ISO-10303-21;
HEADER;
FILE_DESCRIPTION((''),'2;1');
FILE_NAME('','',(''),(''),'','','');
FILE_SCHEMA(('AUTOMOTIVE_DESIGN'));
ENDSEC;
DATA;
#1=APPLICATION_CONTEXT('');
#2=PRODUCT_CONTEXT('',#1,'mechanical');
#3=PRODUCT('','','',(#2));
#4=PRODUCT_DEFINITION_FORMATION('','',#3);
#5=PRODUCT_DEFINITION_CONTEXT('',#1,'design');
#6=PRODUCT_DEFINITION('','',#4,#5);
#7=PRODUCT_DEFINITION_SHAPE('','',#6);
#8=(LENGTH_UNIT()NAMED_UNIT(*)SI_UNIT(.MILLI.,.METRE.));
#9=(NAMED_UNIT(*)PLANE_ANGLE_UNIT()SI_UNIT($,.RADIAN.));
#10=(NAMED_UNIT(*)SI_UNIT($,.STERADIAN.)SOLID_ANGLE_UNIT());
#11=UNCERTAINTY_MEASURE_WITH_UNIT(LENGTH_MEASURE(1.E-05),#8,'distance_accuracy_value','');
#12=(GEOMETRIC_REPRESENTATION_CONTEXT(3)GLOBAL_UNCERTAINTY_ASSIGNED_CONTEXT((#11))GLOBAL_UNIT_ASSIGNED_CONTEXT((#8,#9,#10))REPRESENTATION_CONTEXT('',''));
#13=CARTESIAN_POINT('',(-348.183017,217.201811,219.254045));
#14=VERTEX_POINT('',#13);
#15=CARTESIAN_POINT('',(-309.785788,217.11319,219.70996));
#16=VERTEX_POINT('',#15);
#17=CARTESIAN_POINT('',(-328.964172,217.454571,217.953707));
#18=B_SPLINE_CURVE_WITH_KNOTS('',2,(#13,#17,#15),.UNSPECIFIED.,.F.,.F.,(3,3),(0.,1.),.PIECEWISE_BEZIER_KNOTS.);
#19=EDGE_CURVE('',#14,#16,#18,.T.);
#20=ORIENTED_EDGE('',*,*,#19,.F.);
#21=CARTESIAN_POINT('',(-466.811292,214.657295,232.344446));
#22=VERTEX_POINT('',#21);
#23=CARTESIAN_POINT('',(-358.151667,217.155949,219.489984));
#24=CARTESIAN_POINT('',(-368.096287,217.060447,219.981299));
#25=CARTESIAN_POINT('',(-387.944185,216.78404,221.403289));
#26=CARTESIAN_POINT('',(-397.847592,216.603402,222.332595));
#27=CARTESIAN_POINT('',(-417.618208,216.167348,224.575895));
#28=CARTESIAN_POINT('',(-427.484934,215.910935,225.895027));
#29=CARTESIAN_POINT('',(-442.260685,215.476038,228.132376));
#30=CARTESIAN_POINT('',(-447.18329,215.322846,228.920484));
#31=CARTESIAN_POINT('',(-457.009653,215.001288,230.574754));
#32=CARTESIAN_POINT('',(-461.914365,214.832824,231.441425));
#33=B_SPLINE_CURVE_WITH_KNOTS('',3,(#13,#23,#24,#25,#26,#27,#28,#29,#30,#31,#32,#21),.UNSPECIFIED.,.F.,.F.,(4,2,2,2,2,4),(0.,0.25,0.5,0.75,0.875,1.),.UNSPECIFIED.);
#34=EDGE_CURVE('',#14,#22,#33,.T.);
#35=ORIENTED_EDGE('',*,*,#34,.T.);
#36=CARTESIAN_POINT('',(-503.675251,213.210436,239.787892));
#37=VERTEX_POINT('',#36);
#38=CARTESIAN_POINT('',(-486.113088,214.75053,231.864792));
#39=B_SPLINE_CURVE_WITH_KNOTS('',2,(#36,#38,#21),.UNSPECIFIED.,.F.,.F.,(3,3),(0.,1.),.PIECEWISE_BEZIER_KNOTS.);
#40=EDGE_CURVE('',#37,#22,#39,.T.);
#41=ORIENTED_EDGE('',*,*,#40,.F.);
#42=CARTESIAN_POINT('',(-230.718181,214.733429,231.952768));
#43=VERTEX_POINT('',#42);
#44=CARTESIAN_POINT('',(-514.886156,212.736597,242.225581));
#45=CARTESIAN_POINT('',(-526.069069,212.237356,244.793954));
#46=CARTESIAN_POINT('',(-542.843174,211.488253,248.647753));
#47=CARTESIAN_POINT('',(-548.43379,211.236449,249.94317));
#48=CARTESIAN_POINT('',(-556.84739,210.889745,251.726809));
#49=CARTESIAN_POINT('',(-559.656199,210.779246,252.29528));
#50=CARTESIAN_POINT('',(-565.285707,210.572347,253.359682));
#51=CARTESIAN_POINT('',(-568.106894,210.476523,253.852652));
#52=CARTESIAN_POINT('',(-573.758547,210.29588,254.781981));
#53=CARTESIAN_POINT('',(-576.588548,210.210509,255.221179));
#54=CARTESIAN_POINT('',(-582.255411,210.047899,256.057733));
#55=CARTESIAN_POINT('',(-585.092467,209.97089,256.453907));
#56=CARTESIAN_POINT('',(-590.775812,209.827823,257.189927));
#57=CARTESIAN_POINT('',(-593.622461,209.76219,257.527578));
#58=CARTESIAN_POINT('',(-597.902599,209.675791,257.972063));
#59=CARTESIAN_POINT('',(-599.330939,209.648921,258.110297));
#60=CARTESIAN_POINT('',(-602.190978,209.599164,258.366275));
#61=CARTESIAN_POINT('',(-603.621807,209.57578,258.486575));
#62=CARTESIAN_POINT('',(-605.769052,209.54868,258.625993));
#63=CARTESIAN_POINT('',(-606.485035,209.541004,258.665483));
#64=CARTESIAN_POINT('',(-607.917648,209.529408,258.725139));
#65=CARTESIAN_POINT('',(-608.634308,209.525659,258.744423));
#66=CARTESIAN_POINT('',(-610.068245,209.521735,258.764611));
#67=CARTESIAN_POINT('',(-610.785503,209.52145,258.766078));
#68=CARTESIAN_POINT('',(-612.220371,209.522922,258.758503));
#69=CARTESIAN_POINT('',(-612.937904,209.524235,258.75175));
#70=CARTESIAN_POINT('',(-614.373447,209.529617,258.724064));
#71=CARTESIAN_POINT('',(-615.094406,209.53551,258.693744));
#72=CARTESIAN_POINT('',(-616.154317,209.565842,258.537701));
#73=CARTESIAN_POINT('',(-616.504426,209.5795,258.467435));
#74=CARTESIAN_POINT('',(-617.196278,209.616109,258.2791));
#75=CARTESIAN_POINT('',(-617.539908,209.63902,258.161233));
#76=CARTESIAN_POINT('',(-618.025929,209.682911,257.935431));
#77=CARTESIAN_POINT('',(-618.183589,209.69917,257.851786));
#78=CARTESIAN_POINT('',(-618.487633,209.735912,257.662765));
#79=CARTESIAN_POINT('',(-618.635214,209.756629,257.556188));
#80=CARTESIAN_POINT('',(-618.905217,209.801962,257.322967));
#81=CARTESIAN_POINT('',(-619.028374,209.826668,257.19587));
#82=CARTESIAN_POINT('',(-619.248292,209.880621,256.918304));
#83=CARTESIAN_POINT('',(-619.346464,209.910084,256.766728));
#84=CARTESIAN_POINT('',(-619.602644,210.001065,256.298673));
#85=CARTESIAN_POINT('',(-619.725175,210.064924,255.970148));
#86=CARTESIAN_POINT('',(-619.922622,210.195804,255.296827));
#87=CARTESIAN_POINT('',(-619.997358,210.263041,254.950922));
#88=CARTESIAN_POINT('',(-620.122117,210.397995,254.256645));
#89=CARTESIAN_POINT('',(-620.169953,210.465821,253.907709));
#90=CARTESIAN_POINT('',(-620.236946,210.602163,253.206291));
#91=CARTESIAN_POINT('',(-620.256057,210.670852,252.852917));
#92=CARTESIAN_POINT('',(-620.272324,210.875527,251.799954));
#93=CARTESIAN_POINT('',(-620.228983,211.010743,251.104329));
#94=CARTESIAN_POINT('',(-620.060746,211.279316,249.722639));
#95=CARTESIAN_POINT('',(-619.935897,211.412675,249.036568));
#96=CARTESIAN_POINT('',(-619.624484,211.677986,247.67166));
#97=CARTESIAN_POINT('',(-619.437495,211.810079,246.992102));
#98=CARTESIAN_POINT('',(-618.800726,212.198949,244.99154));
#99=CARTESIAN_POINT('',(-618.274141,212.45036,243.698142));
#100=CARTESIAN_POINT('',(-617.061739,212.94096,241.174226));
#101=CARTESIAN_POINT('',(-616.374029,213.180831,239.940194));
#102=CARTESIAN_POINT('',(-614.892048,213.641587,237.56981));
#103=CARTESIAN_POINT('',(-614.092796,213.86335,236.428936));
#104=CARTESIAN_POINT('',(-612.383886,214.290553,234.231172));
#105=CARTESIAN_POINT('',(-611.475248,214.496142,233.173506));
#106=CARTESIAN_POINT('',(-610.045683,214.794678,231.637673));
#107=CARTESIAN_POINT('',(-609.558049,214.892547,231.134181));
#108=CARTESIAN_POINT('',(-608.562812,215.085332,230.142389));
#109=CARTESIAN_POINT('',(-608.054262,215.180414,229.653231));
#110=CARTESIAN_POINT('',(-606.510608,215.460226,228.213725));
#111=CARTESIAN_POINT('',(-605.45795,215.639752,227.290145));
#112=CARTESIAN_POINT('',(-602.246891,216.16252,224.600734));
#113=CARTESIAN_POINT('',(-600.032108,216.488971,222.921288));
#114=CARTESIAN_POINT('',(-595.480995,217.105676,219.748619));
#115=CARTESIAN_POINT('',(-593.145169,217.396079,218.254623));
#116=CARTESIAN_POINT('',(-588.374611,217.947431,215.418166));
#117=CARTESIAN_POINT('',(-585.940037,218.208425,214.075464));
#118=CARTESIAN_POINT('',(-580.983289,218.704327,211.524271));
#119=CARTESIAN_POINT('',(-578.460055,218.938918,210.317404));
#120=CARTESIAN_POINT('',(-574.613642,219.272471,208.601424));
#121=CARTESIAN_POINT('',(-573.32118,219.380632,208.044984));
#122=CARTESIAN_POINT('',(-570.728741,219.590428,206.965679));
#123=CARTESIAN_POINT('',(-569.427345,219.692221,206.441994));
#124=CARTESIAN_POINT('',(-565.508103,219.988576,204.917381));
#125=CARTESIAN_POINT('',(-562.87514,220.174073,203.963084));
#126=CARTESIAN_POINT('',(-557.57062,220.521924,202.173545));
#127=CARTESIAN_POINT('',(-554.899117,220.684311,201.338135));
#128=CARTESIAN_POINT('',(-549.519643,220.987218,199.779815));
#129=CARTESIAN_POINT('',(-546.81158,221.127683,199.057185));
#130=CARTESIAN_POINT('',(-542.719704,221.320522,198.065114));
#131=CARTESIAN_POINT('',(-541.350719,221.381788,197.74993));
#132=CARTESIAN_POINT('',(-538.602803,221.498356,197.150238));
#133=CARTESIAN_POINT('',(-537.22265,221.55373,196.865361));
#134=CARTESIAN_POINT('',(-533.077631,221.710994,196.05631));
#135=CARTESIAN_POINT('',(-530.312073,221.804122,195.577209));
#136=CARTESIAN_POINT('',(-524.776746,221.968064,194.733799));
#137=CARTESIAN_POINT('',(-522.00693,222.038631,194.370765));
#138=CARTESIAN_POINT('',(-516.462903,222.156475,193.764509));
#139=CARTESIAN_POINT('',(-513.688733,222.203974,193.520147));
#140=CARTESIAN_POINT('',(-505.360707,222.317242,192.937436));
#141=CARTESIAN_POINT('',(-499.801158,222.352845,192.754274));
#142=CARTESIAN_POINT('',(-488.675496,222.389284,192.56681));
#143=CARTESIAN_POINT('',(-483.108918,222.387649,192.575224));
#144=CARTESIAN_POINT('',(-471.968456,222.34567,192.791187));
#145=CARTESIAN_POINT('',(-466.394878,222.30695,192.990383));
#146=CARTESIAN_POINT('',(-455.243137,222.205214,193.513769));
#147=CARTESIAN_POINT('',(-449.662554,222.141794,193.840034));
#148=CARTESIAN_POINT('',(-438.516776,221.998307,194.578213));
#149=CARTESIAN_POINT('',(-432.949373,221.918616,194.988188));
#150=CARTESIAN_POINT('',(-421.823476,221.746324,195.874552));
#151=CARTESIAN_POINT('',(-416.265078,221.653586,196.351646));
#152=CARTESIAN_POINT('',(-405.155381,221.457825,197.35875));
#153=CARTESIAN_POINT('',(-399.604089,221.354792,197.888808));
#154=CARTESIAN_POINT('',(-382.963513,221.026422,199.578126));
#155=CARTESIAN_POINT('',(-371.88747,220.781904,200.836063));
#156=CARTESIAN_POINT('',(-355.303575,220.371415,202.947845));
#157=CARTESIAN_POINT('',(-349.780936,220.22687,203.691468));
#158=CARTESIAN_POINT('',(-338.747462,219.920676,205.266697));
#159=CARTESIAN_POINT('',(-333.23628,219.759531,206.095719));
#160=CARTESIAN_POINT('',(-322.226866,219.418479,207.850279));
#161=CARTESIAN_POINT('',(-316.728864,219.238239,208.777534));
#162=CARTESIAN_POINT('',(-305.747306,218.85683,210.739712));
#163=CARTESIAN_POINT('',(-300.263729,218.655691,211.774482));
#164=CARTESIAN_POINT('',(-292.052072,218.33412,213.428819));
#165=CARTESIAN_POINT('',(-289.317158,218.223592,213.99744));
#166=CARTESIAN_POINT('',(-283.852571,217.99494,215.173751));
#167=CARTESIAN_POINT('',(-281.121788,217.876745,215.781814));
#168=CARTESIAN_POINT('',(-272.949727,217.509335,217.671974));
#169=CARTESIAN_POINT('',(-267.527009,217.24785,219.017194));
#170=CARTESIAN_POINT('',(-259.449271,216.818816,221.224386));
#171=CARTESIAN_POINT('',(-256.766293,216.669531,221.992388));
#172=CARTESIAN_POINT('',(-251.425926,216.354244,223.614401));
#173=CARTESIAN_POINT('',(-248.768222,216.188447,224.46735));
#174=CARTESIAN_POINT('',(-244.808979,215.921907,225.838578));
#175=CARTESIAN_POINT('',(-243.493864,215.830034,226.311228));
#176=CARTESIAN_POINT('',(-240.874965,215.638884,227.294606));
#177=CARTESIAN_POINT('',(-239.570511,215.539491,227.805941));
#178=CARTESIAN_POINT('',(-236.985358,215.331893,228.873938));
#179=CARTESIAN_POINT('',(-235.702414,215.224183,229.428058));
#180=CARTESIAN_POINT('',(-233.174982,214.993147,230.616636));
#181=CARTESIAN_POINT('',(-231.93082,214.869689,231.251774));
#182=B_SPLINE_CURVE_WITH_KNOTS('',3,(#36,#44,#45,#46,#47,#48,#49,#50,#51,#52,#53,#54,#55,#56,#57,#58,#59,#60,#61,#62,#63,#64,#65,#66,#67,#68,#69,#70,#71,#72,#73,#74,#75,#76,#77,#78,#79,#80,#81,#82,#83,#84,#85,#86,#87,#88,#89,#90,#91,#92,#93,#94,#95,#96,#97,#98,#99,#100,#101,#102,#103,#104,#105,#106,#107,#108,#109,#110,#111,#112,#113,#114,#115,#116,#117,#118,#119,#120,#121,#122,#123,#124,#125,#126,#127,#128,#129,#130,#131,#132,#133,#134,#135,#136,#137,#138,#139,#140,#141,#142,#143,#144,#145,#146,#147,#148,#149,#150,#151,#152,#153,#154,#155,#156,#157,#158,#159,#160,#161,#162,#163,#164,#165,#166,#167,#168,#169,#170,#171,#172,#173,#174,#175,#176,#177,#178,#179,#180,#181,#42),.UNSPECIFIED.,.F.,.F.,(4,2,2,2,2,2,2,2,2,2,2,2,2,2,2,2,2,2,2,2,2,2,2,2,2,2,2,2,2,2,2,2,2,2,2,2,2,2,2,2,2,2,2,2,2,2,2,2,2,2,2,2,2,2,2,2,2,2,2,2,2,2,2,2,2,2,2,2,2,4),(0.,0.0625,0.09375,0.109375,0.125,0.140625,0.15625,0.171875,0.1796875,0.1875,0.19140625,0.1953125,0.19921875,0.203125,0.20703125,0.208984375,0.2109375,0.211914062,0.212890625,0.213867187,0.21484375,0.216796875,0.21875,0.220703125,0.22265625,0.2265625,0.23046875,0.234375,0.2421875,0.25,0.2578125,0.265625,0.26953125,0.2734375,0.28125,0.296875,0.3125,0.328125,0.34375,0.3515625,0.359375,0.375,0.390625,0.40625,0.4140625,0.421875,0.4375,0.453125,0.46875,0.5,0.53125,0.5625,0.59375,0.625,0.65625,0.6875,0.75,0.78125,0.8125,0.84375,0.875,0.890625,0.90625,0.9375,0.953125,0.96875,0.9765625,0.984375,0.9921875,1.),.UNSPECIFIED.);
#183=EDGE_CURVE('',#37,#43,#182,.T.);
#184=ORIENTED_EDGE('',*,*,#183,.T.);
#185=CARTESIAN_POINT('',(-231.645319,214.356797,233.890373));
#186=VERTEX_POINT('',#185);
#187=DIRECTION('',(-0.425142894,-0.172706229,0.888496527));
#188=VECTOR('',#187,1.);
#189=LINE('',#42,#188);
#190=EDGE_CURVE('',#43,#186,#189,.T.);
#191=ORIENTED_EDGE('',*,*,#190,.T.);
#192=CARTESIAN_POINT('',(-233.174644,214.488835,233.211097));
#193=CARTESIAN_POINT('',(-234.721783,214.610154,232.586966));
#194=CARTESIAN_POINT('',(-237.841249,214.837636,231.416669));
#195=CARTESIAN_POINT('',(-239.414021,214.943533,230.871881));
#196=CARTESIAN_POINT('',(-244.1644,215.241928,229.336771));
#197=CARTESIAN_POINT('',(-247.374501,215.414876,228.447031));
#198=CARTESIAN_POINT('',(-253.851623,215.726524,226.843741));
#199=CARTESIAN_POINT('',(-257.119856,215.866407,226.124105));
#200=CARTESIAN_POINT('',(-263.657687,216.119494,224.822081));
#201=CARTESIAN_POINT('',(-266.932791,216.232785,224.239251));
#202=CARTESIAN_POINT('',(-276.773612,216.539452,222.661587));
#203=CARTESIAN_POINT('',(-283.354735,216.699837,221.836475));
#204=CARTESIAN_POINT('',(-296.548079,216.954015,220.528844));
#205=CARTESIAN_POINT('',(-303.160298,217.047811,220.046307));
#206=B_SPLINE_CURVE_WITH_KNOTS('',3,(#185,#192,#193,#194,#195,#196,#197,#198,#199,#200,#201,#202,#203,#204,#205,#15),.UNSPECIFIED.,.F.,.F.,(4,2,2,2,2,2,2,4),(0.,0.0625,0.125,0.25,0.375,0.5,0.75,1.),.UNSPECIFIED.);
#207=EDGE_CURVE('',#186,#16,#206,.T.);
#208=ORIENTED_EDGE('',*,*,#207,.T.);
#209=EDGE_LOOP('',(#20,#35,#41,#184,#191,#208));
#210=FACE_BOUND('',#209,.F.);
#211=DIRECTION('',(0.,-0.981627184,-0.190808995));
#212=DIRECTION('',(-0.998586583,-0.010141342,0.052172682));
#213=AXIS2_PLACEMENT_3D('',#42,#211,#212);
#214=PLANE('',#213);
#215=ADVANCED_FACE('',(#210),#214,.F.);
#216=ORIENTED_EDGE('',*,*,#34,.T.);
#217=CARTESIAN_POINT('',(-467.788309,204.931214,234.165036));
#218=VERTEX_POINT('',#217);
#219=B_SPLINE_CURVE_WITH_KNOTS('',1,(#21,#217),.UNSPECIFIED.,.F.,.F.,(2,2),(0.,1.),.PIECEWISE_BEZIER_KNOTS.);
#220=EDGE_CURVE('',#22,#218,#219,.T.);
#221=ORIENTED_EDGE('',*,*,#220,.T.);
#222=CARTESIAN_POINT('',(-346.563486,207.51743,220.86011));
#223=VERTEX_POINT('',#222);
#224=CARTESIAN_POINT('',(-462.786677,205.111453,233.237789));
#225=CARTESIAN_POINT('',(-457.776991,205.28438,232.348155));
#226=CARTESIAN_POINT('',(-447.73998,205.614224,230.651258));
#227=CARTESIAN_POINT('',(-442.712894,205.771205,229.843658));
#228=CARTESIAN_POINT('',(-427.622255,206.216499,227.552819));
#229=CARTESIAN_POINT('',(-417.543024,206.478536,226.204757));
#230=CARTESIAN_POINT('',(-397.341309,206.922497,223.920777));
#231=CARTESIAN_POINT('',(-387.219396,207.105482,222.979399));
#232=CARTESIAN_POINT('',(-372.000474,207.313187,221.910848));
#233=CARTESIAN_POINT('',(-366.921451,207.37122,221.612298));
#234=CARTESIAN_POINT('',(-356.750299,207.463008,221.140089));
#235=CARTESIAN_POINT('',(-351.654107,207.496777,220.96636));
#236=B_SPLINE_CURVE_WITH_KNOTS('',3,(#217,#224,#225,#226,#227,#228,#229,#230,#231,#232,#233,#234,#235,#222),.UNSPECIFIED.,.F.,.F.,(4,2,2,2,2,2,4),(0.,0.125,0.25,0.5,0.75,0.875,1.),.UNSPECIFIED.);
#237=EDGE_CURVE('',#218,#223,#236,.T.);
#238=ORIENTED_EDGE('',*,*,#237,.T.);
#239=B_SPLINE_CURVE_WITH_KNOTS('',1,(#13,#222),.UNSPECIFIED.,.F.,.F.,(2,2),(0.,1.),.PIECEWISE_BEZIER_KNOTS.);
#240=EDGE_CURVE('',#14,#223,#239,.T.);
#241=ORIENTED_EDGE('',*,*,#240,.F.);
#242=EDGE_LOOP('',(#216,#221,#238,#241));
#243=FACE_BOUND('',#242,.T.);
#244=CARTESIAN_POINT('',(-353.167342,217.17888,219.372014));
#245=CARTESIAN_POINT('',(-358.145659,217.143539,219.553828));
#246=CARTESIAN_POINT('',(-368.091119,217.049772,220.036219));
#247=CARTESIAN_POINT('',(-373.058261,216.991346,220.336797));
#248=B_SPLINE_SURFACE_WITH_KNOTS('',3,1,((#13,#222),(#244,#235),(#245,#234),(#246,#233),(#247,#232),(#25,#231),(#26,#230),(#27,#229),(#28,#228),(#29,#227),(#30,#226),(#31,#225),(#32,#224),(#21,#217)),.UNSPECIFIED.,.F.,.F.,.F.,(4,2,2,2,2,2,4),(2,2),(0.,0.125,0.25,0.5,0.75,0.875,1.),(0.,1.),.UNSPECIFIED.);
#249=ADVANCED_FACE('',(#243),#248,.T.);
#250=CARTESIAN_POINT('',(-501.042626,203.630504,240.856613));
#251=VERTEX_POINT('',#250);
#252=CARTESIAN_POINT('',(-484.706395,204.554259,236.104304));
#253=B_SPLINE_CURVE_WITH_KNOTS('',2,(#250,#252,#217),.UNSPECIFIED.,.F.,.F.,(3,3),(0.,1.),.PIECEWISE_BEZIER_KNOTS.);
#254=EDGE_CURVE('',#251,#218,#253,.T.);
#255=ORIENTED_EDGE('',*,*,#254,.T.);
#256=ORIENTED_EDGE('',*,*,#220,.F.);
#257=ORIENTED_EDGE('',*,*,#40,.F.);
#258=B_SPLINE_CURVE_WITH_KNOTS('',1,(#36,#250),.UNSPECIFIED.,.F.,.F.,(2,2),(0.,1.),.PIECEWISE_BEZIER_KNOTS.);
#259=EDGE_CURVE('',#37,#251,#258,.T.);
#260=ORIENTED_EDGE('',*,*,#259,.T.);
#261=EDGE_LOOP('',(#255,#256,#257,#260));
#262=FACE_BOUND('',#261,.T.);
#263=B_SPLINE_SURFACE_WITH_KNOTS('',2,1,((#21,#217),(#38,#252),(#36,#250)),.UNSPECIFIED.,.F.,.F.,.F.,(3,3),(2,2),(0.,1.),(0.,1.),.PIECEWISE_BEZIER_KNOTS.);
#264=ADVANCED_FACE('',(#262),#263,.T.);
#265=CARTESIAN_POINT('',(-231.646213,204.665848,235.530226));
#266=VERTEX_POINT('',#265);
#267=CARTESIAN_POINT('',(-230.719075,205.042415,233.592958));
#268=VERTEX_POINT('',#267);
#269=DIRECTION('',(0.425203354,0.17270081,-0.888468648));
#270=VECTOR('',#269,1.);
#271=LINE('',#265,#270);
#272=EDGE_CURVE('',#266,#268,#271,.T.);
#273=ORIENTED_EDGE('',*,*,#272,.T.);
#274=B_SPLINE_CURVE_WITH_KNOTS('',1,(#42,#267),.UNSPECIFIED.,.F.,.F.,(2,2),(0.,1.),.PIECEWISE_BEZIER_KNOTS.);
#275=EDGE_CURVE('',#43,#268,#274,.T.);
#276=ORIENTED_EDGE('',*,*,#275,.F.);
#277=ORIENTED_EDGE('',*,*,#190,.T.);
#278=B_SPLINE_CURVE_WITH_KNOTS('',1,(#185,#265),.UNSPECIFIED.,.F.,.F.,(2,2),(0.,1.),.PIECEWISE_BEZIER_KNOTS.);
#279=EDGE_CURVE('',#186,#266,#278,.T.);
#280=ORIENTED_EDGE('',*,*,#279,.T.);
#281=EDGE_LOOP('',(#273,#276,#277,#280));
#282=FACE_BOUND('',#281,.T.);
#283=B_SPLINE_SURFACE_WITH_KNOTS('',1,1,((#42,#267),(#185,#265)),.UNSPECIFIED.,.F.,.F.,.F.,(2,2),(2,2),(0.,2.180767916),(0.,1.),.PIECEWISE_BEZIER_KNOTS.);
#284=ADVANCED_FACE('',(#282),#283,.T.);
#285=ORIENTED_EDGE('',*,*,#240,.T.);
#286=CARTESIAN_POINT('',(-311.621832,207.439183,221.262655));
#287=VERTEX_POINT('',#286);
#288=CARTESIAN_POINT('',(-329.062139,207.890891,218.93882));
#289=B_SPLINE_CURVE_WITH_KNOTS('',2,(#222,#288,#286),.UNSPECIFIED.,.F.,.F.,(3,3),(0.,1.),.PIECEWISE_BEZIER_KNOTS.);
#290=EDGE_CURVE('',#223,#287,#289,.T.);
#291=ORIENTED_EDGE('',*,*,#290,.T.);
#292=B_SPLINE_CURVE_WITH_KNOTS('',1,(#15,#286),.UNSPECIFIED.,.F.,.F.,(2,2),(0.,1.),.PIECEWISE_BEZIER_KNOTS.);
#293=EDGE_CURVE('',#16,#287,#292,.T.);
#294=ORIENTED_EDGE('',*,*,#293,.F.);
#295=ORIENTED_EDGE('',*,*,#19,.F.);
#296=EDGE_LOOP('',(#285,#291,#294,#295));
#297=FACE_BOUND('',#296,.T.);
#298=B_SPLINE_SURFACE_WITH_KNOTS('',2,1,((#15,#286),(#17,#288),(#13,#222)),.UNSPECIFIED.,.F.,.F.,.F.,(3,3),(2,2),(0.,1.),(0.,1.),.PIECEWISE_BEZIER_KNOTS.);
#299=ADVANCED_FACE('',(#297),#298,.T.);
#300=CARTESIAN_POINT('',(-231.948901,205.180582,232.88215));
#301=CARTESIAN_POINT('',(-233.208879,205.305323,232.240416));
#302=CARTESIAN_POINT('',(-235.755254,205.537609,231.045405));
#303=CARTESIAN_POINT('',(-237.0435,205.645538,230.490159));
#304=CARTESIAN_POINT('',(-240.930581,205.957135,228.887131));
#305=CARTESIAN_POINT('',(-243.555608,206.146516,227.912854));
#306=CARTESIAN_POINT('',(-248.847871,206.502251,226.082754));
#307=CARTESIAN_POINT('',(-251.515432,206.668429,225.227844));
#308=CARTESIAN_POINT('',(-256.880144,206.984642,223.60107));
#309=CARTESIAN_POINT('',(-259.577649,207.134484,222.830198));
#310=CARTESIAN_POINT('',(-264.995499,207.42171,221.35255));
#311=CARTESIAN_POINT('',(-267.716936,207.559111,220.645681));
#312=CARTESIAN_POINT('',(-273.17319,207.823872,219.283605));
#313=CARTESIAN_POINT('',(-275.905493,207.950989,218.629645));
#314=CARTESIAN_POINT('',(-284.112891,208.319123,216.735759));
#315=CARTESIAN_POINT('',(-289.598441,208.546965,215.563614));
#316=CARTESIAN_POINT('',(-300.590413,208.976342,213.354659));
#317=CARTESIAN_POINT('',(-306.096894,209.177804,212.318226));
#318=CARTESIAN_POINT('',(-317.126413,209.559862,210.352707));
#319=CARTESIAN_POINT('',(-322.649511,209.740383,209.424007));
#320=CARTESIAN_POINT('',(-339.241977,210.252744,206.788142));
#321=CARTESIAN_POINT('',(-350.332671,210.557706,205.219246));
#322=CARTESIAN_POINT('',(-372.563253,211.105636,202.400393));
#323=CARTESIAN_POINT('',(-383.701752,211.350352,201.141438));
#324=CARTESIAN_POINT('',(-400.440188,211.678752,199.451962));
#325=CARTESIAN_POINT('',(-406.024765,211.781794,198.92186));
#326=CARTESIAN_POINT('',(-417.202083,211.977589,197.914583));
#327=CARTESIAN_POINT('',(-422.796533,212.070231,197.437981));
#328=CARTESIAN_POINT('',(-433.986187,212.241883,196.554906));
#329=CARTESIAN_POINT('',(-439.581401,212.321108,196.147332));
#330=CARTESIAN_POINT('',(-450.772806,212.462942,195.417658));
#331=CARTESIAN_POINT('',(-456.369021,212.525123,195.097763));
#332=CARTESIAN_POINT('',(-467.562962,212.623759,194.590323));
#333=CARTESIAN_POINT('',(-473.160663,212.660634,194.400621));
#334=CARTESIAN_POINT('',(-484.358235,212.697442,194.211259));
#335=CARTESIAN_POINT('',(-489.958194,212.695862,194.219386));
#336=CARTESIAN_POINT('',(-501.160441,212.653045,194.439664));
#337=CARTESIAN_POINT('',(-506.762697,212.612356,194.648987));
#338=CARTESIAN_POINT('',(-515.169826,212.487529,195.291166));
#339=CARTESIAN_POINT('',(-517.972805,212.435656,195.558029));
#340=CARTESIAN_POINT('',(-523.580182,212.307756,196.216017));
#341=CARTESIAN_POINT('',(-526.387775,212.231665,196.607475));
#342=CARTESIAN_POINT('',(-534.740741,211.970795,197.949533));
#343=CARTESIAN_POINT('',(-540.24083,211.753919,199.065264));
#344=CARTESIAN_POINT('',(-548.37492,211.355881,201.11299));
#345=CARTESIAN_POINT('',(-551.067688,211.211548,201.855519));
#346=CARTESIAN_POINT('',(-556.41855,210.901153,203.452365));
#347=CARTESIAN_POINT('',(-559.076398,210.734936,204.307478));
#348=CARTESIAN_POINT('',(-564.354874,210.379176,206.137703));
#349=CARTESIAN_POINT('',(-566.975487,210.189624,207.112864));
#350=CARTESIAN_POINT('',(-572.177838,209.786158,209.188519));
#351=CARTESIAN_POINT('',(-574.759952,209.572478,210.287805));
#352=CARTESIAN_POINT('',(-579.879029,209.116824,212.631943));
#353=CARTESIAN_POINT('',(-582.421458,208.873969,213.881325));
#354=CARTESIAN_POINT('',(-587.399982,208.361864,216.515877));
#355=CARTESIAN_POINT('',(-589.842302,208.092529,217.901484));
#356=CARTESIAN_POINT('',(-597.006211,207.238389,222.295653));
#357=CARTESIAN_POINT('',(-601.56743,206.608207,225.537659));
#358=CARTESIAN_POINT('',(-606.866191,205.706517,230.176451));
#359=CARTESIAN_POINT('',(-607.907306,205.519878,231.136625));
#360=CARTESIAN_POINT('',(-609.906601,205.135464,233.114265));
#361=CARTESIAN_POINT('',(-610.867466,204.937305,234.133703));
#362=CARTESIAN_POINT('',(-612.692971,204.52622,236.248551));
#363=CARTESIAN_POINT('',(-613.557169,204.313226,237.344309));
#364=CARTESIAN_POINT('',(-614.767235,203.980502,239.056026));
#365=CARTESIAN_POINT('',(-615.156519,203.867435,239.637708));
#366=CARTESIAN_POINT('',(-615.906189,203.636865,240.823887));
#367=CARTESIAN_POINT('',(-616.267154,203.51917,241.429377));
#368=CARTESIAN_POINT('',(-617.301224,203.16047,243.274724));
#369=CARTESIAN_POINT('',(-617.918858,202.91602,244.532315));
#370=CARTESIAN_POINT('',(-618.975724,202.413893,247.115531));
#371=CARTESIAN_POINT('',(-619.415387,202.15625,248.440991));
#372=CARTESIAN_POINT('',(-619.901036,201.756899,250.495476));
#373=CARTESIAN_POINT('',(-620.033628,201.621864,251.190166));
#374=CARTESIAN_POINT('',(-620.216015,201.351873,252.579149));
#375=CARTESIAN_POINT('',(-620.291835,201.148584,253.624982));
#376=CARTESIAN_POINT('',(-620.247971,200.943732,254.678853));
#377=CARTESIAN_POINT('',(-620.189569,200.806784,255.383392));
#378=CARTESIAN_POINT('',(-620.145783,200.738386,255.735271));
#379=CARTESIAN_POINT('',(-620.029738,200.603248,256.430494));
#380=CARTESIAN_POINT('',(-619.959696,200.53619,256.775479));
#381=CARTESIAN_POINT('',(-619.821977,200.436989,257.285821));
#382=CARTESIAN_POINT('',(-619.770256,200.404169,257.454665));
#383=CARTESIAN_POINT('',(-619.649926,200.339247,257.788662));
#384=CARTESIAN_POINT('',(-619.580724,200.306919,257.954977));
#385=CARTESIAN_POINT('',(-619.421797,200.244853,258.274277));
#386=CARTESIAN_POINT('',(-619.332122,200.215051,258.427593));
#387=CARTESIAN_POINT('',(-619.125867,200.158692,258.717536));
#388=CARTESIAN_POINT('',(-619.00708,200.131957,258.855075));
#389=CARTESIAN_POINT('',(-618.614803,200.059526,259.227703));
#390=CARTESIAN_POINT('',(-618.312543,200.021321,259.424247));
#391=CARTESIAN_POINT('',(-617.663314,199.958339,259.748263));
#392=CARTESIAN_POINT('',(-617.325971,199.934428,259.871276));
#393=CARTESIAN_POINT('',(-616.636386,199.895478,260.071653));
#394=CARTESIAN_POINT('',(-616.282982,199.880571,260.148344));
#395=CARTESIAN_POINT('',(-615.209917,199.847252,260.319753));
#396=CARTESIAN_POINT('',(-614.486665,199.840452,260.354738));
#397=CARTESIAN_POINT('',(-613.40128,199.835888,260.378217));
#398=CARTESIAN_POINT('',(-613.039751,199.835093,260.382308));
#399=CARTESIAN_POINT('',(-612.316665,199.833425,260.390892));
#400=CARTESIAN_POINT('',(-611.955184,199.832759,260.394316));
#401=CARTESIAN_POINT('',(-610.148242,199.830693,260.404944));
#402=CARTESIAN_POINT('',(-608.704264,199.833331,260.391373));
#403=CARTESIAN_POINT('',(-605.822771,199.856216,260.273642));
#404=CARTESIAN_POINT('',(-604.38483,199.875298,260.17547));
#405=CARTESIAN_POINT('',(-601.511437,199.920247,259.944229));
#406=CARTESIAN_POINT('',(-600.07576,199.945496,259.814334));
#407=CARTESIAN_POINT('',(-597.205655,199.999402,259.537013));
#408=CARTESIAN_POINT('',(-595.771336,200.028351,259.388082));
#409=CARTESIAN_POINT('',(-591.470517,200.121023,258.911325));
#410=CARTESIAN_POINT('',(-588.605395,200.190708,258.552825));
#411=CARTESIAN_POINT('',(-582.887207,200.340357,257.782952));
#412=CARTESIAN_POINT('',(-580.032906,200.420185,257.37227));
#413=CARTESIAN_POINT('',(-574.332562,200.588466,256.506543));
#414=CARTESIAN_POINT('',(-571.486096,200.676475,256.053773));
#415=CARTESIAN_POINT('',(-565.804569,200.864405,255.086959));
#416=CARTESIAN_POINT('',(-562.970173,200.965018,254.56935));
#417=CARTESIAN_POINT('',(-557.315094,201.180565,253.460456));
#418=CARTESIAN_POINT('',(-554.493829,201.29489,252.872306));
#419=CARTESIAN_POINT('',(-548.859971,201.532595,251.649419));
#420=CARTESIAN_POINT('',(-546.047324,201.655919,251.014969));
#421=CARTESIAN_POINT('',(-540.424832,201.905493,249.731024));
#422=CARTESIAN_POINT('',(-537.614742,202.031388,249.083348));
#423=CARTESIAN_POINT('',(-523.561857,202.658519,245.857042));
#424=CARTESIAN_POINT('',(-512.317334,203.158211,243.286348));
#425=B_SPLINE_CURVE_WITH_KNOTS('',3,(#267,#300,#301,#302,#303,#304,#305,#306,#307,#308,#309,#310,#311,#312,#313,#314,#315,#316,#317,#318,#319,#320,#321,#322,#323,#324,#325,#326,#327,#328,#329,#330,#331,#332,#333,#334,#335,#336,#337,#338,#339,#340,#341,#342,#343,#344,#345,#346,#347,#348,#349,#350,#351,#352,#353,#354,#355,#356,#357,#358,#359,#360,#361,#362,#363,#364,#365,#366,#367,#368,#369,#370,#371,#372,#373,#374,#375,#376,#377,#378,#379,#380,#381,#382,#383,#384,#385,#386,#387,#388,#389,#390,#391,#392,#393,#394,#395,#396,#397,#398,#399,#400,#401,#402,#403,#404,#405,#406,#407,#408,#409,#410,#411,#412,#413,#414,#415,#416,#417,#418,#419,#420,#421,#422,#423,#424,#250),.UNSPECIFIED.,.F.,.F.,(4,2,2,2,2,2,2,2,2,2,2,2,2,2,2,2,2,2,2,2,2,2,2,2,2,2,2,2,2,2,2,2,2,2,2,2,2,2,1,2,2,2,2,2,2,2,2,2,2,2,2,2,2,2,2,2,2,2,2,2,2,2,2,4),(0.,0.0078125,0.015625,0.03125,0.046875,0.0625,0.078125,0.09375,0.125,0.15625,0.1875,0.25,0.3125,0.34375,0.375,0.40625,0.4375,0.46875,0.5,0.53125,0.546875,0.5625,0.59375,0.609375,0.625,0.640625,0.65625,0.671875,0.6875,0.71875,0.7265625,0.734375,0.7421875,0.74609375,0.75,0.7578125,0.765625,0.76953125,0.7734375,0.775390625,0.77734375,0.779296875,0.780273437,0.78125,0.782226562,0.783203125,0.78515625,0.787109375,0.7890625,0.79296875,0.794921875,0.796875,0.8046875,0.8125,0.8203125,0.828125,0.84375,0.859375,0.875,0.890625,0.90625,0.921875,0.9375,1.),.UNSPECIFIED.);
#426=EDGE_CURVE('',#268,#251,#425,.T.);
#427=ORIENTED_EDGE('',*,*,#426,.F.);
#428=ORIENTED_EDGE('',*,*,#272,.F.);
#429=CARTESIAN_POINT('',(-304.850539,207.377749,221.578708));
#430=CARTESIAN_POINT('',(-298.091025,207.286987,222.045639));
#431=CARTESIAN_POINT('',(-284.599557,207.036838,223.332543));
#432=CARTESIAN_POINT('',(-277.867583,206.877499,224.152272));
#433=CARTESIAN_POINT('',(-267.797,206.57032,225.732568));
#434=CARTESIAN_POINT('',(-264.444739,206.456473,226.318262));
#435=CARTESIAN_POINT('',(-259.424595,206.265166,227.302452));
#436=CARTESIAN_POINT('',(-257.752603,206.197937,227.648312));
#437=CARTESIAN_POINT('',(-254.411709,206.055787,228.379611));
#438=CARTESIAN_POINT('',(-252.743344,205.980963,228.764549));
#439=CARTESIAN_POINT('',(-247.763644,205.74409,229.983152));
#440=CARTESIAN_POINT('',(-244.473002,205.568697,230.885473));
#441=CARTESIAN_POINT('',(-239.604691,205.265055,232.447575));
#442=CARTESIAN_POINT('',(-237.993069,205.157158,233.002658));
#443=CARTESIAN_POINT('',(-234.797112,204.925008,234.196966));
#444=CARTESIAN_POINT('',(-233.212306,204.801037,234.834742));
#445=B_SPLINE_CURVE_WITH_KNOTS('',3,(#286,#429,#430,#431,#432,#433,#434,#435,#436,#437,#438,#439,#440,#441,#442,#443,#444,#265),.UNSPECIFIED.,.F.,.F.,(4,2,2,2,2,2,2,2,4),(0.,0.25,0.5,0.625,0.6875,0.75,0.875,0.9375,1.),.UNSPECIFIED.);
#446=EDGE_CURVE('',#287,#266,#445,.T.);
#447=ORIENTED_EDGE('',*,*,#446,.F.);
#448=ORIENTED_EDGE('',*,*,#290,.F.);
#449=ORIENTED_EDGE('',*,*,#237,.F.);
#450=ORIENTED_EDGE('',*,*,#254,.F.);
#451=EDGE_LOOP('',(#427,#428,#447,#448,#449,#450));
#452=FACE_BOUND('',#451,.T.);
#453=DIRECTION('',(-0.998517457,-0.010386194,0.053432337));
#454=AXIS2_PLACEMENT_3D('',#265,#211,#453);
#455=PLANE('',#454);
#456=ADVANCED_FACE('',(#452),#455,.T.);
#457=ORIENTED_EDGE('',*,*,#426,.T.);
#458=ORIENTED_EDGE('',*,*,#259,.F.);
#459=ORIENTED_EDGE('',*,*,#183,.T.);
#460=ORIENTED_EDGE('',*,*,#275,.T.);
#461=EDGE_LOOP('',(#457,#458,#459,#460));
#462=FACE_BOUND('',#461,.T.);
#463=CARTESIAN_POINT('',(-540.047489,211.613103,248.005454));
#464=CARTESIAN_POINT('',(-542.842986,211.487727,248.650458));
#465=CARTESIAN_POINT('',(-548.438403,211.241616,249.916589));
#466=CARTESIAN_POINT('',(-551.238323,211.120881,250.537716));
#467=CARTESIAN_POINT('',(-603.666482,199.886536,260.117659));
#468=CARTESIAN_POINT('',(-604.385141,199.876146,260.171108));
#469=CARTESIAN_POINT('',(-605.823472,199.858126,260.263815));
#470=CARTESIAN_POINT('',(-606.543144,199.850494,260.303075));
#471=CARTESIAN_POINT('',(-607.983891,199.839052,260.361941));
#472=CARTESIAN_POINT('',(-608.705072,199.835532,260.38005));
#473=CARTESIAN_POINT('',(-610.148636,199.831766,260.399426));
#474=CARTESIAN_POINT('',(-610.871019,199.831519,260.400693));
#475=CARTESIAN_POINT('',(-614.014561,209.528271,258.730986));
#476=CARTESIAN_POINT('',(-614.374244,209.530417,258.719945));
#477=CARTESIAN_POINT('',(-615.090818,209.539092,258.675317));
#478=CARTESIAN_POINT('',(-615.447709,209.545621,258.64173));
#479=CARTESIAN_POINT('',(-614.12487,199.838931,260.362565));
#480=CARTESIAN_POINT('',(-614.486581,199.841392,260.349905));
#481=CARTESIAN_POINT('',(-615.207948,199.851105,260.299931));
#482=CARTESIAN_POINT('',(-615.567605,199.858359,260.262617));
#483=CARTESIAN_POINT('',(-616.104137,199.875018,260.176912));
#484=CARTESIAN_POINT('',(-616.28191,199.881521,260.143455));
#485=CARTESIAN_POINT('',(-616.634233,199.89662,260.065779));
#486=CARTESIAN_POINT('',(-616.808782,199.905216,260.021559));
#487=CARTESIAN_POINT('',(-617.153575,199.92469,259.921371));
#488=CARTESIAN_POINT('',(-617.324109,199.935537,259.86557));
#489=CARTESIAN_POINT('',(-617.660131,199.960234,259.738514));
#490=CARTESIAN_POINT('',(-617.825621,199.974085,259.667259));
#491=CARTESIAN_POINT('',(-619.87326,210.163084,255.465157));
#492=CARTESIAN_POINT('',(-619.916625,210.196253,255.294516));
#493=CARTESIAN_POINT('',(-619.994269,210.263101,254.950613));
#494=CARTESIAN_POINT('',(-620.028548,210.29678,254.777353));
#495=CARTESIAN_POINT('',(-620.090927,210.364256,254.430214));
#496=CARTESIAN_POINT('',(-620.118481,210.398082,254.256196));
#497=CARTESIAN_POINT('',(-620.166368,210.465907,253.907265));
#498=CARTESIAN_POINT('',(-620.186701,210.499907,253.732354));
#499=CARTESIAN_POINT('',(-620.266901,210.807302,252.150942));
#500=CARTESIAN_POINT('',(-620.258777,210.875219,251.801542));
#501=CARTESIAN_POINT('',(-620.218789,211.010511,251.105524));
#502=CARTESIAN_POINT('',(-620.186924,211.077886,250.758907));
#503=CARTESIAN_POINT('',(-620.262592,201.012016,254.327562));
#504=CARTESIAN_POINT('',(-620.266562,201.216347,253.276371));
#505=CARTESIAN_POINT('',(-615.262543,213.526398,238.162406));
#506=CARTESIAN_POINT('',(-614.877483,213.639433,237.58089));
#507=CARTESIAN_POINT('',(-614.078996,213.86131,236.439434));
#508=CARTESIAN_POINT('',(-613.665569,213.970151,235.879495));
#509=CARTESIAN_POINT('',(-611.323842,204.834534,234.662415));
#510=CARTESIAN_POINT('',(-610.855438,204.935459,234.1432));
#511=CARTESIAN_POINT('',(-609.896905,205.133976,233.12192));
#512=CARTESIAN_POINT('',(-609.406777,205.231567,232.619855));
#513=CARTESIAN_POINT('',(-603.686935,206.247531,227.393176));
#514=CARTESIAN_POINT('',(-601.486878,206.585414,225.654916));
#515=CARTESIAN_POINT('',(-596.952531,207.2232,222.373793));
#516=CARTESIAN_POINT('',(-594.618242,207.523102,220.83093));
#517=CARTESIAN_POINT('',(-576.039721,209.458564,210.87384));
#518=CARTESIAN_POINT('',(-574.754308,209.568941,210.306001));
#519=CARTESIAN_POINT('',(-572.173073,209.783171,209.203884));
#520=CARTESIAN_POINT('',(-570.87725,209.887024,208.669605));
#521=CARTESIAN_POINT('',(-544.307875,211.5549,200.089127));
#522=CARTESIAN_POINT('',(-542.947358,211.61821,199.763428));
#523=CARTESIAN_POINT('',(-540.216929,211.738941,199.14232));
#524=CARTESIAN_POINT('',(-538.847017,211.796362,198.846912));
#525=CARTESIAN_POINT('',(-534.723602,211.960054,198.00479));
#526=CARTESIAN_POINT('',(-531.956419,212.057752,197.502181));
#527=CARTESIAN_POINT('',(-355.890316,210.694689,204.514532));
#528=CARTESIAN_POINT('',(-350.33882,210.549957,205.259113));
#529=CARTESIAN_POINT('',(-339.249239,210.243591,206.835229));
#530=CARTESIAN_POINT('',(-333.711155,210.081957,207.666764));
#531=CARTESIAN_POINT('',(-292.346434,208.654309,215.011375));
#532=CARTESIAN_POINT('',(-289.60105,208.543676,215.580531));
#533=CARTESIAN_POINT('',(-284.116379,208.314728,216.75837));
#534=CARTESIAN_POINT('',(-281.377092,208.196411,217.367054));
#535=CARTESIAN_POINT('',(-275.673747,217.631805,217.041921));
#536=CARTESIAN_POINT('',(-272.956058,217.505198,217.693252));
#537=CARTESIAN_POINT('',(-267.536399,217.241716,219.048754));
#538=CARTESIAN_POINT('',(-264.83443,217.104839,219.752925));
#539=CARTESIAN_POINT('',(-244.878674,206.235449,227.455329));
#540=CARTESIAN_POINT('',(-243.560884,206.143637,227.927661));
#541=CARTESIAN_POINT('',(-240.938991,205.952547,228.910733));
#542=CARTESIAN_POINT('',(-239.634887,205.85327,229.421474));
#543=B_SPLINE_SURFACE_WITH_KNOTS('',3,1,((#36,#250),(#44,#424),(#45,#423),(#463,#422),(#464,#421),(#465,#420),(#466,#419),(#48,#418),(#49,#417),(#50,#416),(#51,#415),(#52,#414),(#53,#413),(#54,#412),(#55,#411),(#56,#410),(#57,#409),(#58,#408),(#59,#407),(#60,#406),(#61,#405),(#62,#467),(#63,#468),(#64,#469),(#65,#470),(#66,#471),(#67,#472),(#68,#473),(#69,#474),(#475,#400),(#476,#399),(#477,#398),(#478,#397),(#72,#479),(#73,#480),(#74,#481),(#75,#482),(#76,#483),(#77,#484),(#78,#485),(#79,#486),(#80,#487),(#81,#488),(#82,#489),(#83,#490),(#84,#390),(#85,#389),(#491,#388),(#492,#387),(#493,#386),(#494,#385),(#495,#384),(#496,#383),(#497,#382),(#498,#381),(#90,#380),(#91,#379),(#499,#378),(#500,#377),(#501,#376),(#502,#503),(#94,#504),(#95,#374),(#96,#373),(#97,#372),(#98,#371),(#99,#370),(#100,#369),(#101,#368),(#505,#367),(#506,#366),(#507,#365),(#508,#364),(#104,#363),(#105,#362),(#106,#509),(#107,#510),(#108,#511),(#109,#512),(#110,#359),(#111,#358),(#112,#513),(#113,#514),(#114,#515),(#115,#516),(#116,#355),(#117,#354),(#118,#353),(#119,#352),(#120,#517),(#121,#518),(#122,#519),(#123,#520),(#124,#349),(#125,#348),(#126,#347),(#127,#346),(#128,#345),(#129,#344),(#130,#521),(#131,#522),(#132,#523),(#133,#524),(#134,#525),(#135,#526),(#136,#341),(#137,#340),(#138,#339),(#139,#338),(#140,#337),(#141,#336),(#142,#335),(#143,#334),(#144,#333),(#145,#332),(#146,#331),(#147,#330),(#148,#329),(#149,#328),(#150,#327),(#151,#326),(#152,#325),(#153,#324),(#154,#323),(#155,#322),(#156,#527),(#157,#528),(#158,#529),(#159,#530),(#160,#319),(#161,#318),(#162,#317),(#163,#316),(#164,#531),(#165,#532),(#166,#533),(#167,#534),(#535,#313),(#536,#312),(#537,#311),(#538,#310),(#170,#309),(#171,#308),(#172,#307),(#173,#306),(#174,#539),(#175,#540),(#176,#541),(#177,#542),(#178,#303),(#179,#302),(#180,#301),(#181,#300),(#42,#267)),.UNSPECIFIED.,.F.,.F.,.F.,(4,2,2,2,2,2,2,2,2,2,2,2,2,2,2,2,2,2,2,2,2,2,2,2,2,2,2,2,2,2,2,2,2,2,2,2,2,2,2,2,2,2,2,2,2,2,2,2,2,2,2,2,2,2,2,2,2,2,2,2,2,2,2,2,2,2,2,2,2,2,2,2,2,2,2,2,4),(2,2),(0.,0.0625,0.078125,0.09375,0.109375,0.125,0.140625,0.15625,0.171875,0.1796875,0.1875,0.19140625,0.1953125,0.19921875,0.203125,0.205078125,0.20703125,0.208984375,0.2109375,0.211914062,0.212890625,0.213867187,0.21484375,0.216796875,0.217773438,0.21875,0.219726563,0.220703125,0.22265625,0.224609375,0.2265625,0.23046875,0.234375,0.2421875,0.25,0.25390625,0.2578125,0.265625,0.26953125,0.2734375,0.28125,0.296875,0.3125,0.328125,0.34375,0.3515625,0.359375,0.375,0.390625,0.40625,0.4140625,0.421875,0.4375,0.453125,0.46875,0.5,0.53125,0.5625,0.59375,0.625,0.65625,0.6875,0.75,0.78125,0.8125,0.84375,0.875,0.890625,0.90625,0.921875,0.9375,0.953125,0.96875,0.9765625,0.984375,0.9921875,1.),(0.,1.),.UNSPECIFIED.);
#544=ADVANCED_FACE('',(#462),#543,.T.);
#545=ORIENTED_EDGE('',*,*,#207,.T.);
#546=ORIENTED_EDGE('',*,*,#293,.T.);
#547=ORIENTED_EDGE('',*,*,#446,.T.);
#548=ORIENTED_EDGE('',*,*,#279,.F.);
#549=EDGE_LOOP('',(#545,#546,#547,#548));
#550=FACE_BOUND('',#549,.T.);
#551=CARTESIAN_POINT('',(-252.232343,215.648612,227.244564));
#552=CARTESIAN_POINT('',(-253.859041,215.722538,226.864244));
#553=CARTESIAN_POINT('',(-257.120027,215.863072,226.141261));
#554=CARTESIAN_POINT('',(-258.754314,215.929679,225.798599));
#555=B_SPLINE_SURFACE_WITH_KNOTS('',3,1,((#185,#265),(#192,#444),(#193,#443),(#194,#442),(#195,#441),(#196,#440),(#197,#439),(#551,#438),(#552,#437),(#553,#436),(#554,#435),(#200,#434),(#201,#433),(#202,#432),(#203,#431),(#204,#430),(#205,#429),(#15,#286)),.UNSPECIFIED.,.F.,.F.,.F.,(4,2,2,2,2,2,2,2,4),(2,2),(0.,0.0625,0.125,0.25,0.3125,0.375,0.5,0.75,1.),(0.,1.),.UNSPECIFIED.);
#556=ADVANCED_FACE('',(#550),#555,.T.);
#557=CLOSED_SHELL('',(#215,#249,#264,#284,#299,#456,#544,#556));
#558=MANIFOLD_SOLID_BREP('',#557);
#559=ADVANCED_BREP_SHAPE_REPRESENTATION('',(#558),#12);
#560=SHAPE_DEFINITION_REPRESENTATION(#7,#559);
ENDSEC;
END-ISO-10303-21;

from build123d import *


with BuildPart() as part:
    # Szkic1 → Wyciągnięcie po profilach1 section 0
    with BuildSketch(Plane(origin=(0, 250.36091718, 48.665232477), x_dir=(1, 0, 0), z_dir=(0, -0.981627183, -0.190808995))):
        with BuildLine():
            Line((-230.718181465, 186.71807225), (-231.645319449, 188.691942525))
            add(Edge.make_bspline(
                [(-231.645319449, 188.691942525), (-233.174644141, 187.999953464), (-234.721783332, 187.364140241), (-237.841249221, 186.171939505), (-239.414020678, 185.616954481), (-244.164400083, 184.053112564), (-247.374501337, 183.146719317), (-253.851623397, 181.51342164), (-257.119855918, 180.780316602), (-263.657686797, 179.453922888), (-266.932791453, 178.860184209), (-276.773612098, 177.252991106), (-283.354734665, 176.412436258), (-296.548078516, 175.080330415), (-303.160298205, 174.588761507), (-309.785788347, 174.246119623)],
                knots=[0, 0, 0, 0, 0.0625, 0.0625, 0.125, 0.125, 0.25, 0.25, 0.375, 0.375, 0.5, 0.5, 0.75, 0.75, 1, 1, 1, 1], degree=3))
            add(Edge.make_bspline(
                [(-348.183016714, 173.781671183), (-328.964171571, 172.456994761), (-309.785788347, 174.246119623)],
                knots=[0, 0, 0, 1, 1, 1], degree=2))
            add(Edge.make_bspline(
                [(-348.183016714, 173.781671183), (-358.151666656, 174.022025786), (-368.096286676, 174.522537173), (-387.94418485, 175.971142244), (-397.847591779, 176.917841756), (-417.618208057, 179.203129122), (-427.484934044, 180.546950038), (-442.260684852, 182.826175434), (-447.183290441, 183.629033837), (-457.009652818, 185.314266402), (-461.914365461, 186.197158818), (-466.811292159, 187.117080937)],
                knots=[0, 0, 0, 0, 0.25, 0.25, 0.5, 0.5, 0.75, 0.75, 0.875, 0.875, 1, 1, 1, 1], degree=3))
            add(Edge.make_bspline(
                [(-503.67525068, 194.699844137), (-486.113087933, 186.628450015), (-466.811292159, 187.117080937)],
                knots=[0, 0, 0, 1, 1, 1], degree=2))
            add(Edge.make_bspline(
                [(-503.67525068, 194.699844137), (-514.886156137, 197.183158341), (-526.069069208, 199.799603445), (-542.843173548, 203.725532692), (-548.433789911, 205.045195718), (-556.847390253, 206.862217693), (-559.656198502, 207.441328721), (-565.285707455, 208.525652892), (-568.106893587, 209.027849652), (-573.758546812, 209.974572715), (-576.588548469, 210.421991156), (-582.255411466, 211.274203028), (-585.092466698, 211.677791635), (-590.775811551, 212.427587781), (-593.622461186, 212.771558242), (-597.902598645, 213.224362574), (-599.33093878, 213.36518339), (-602.190977957, 213.625953291), (-603.621807395, 213.74850469), (-605.769052097, 213.890532369), (-606.485034549, 213.930761383), (-607.917647629, 213.991533363), (-608.634307809, 214.011178807), (-610.068244724, 214.031744007), (-610.785502514, 214.03323918), (-612.220370634, 214.025522336), (-612.937904151, 214.018643253), (-614.373446848, 213.990438557), (-615.094405741, 213.959551393), (-616.154316733, 213.800587864), (-616.504425777, 213.729005846), (-617.19627763, 213.537146432), (-617.539907955, 213.417073554), (-618.025928813, 213.187044681), (-618.183588752, 213.101834107), (-618.487632655, 212.909275387), (-618.635214003, 212.800703818), (-618.905216661, 212.56311753), (-619.028373994, 212.433641543), (-619.248292015, 212.150880775), (-619.346463926, 211.996467784), (-619.602643649, 211.519652342), (-619.725174636, 211.184978082), (-619.922621807, 210.499055279), (-619.997357698, 210.146675653), (-620.122117308, 209.439404469), (-620.169952886, 209.083937157), (-620.236946265, 208.369390812), (-620.256057026, 208.009403538), (-620.272323599, 206.93673215), (-620.228983229, 206.228087719), (-620.060745622, 204.820536998), (-619.93589689, 204.121624917), (-619.624483911, 202.731169778), (-619.437495298, 202.038892606), (-618.800725774, 200.000887185), (-618.274140545, 198.683280498), (-617.06173932, 196.112125571), (-616.37402886, 194.854996442), (-614.892048313, 192.440246872), (-614.092796263, 191.278019838), (-612.383886198, 189.039120678), (-611.475247542, 187.961658639), (-610.045682759, 186.397079988), (-609.558049109, 185.884164636), (-608.562812036, 184.87380875), (-608.054261942, 184.375495234), (-606.510608451, 182.909046548), (-605.457949932, 181.968180201), (-602.246891056, 179.228432719), (-600.032107811, 177.517553058), (-595.480994707, 174.285501661), (-593.145169014, 172.763543035), (-588.374611336, 169.873997071), (-585.940036539, 168.506164399), (-580.983288597, 165.907221095), (-578.460054833, 164.67776586), (-574.613641656, 162.92966878), (-573.321179813, 162.362813896), (-570.72874085, 161.263307356), (-569.427344918, 160.729821284), (-565.508102562, 159.176672617), (-562.875139683, 158.204514072), (-557.57061981, 156.381480503), (-554.89911711, 155.530434856), (-549.519642901, 153.942948231), (-546.811580447, 153.206793044), (-542.719703975, 152.196153858), (-541.350718573, 151.875070349), (-538.602803254, 151.264154355), (-537.222650497, 150.973945298), (-533.07763064, 150.149751095), (-530.312072996, 149.661683583), (-524.776746306, 148.802487292), (-522.006930458, 148.432658084), (-516.462903089, 147.81505516), (-513.688733399, 147.566119904), (-505.360707441, 146.972502593), (-499.801157696, 146.785912361), (-488.675496216, 146.594939917), (-483.108917997, 146.60351064), (-471.96845567, 146.823516049), (-466.394878068, 147.026439938), (-455.243137073, 147.559622222), (-449.662553722, 147.891994248), (-438.516776064, 148.643989656), (-432.94937268, 149.06163809), (-421.823476404, 149.964591923), (-416.26507807, 150.450615294), (-405.155380964, 151.476568692), (-399.604088693, 152.016548071), (-382.963513349, 153.73748367), (-371.887469562, 155.018965175), (-355.303574737, 157.170273359), (-349.780935591, 157.927814607), (-338.747461606, 159.532526677), (-333.236280066, 160.377065009), (-322.22686618, 162.164464305), (-316.728864243, 163.109074761), (-305.747305667, 165.107978159), (-300.263728509, 166.162115302), (-292.052072184, 167.847415948), (-289.317157844, 168.426680304), (-283.852570751, 169.625008143), (-281.12178784, 170.244451213), (-272.949727013, 172.169989218), (-267.527009062, 173.540386835), (-259.449271288, 175.788890801), (-256.766293113, 176.571266618), (-251.42592644, 178.223638349), (-248.768221826, 179.092551866), (-244.808978612, 180.489445382), (-243.493864392, 180.970941908), (-240.874964635, 181.972724826), (-239.570510548, 182.493630845), (-236.985358252, 183.58161694), (-235.702414065, 184.146108379), (-233.174982125, 185.356932848), (-231.93081956, 186.003957932), (-230.718181465, 186.71807225)],
                knots=[0, 0, 0, 0, 0.0625, 0.0625, 0.09375, 0.09375, 0.109375, 0.109375, 0.125, 0.125, 0.140625, 0.140625, 0.15625, 0.15625, 0.171875, 0.171875, 0.1796875, 0.1796875, 0.1875, 0.1875, 0.19140625, 0.19140625, 0.1953125, 0.1953125, 0.19921875, 0.19921875, 0.203125, 0.203125, 0.20703125, 0.20703125, 0.208984375, 0.208984375, 0.2109375, 0.2109375, 0.211914062, 0.211914062, 0.212890625, 0.212890625, 0.213867187, 0.213867187, 0.21484375, 0.21484375, 0.216796875, 0.216796875, 0.21875, 0.21875, 0.220703125, 0.220703125, 0.22265625, 0.22265625, 0.2265625, 0.2265625, 0.23046875, 0.23046875, 0.234375, 0.234375, 0.2421875, 0.2421875, 0.25, 0.25, 0.2578125, 0.2578125, 0.265625, 0.265625, 0.26953125, 0.26953125, 0.2734375, 0.2734375, 0.28125, 0.28125, 0.296875, 0.296875, 0.3125, 0.3125, 0.328125, 0.328125, 0.34375, 0.34375, 0.3515625, 0.3515625, 0.359375, 0.359375, 0.375, 0.375, 0.390625, 0.390625, 0.40625, 0.40625, 0.4140625, 0.4140625, 0.421875, 0.421875, 0.4375, 0.4375, 0.453125, 0.453125, 0.46875, 0.46875, 0.5, 0.5, 0.53125, 0.53125, 0.5625, 0.5625, 0.59375, 0.59375, 0.625, 0.625, 0.65625, 0.65625, 0.6875, 0.6875, 0.75, 0.75, 0.78125, 0.78125, 0.8125, 0.8125, 0.84375, 0.84375, 0.875, 0.875, 0.890625, 0.890625, 0.90625, 0.90625, 0.9375, 0.9375, 0.953125, 0.953125, 0.96875, 0.96875, 0.9765625, 0.9765625, 0.984375, 0.984375, 0.9921875, 0.9921875, 1, 1, 1, 1], degree=3))
        make_face()
    # Szkic2 → Wyciągnięcie po profilach1 section 1
    with BuildSketch(Plane(origin=(0, 241.329947092, 46.90978972), x_dir=(1, 0, 0), z_dir=(0, 0.981627183, 0.190808995))):
        with BuildLine():
            Line((-231.646212924, -192.150787371), (-230.719075123, -190.177260074))
            add(Edge.make_bspline(
                [(-230.719075123, -190.177260074), (-231.948901198, -189.453147906), (-233.20887904, -188.799403111), (-235.755254104, -187.582025717), (-237.043499625, -187.016387422), (-240.930581019, -185.383355833), (-243.555608344, -184.390843227), (-248.847871126, -182.52648997), (-251.515431557, -181.655578415), (-256.880143927, -179.998356663), (-259.577649206, -179.213056657), (-264.995498516, -177.707752045), (-267.716935541, -176.987652686), (-273.173189749, -175.60008308), (-275.90549341, -174.933883516), (-284.112891469, -173.004549654), (-289.598440536, -171.810466147), (-300.590412603, -169.560166875), (-306.096893758, -168.504335203), (-317.126413334, -166.502028969), (-322.649511073, -165.555946181), (-339.241976719, -162.87074662), (-350.332670964, -161.272485615), (-372.563252551, -158.400873194), (-383.701752049, -157.11835537), (-400.440188062, -155.397257975), (-406.024765373, -154.857234239), (-417.202083272, -153.831103416), (-422.796533028, -153.345581305), (-433.986186707, -152.44597855), (-439.581401193, -152.030775931), (-450.77280575, -151.287445217), (-456.369020983, -150.961562741), (-467.56296205, -150.444624481), (-473.160663276, -150.251372161), (-484.358234817, -150.058466439), (-489.958194001, -150.066744834), (-501.160441068, -150.291146194), (-506.762696657, -150.504386826), (-515.169825975, -151.158585683), (-517.972805094, -151.430443194), (-523.580181633, -152.100746661), (-526.387775415, -152.499530907), (-534.74074073, -153.866708494), (-540.240829662, -155.003321589), (-548.374919876, -157.089374494), (-551.067687575, -157.845801363), (-556.418550136, -159.472534871), (-559.076397943, -160.343652941), (-564.354873991, -162.208133352), (-566.975486778, -163.201546453), (-572.177838401, -165.3160506), (-574.759951718, -166.435911696), (-579.879028517, -168.823924411), (-582.421458486, -170.096690144), (-587.399982445, -172.780552185), (-589.842302197, -174.192094015), (-597.006211419, -178.668507031), (-601.567430201, -181.97119253), (-606.86619118, -186.696807469), (-607.907306115, -187.674953253), (-609.906600664, -189.689607526), (-610.867466168, -190.728126276), (-612.692971166, -192.882556951), (-613.557169123, -193.998824), (-614.767234871, -195.74257906), (-615.156519044, -196.335147907), (-615.906188642, -197.543528445), (-616.267154497, -198.16035143), (-617.301224195, -200.040237034), (-617.918858094, -201.321366231), (-618.975723877, -203.952930941), (-619.415386547, -205.303199099), (-619.901035927, -207.396137179), (-620.033628179, -208.103829749), (-620.216014742, -209.518810025), (-620.291835155, -210.58421703), (-620.247970749, -211.657813386), (-620.189568984, -212.375539464), (-620.145782556, -212.734004312), (-620.029737618, -213.442239209), (-619.959696192, -213.793681415), (-619.821977141, -214.313575775), (-619.770256163, -214.485579644), (-619.649925655, -214.82582824), (-619.580724196, -214.995255164), (-619.421796717, -215.320531679), (-619.332121654, -215.476717239), (-619.125867399, -215.772087212), (-619.007079731, -215.912200799), (-618.614803353, -216.291802882), (-618.312542654, -216.492025046), (-617.663313635, -216.822106069), (-617.325971244, -216.94742188), (-616.636386212, -217.151548677), (-616.282981523, -217.229675381), (-615.209916887, -217.404292633), (-614.486665384, -217.439932408), (-613.401279794, -217.46385096), (-613.039751167, -217.468018286), (-612.316665207, -217.476762746), (-611.955184164, -217.480250774), (-610.148242152, -217.491078281), (-608.704263711, -217.477253344), (-605.822771219, -217.357318588), (-604.384829895, -217.257308462), (-601.511437363, -217.0217396), (-600.075759723, -216.889413383), (-597.205655435, -216.606901928), (-595.771336145, -216.455184064), (-591.470516624, -215.969503622), (-588.605394881, -215.604293633), (-582.887207402, -214.820011263), (-580.032906206, -214.401642781), (-574.332562265, -213.519711277), (-571.486095774, -213.058467216), (-565.80456902, -212.073558268), (-562.970172606, -211.546260463), (-557.315094211, -210.416612326), (-554.493828971, -209.817453892), (-548.859970661, -208.571678404), (-546.047324243, -207.925353296), (-540.424831829, -206.617377706), (-537.614741724, -205.957579388), (-523.561857343, -202.670887625), (-512.317333578, -200.052078006), (-501.042625967, -197.576867128)],
                knots=[0, 0, 0, 0, 0.0078125, 0.0078125, 0.015625, 0.015625, 0.03125, 0.03125, 0.046875, 0.046875, 0.0625, 0.0625, 0.078125, 0.078125, 0.09375, 0.09375, 0.125, 0.125, 0.15625, 0.15625, 0.1875, 0.1875, 0.25, 0.25, 0.3125, 0.3125, 0.34375, 0.34375, 0.375, 0.375, 0.40625, 0.40625, 0.4375, 0.4375, 0.46875, 0.46875, 0.5, 0.5, 0.53125, 0.53125, 0.546875, 0.546875, 0.5625, 0.5625, 0.59375, 0.59375, 0.609375, 0.609375, 0.625, 0.625, 0.640625, 0.640625, 0.65625, 0.65625, 0.671875, 0.671875, 0.6875, 0.6875, 0.71875, 0.71875, 0.7265625, 0.7265625, 0.734375, 0.734375, 0.7421875, 0.7421875, 0.74609375, 0.74609375, 0.75, 0.75, 0.7578125, 0.7578125, 0.765625, 0.765625, 0.76953125, 0.76953125, 0.7734375, 0.775390625, 0.775390625, 0.77734375, 0.77734375, 0.779296875, 0.779296875, 0.780273437, 0.780273437, 0.78125, 0.78125, 0.782226562, 0.782226562, 0.783203125, 0.783203125, 0.78515625, 0.78515625, 0.787109375, 0.787109375, 0.7890625, 0.7890625, 0.79296875, 0.79296875, 0.794921875, 0.794921875, 0.796875, 0.796875, 0.8046875, 0.8046875, 0.8125, 0.8125, 0.8203125, 0.8203125, 0.828125, 0.828125, 0.84375, 0.84375, 0.859375, 0.859375, 0.875, 0.875, 0.890625, 0.890625, 0.90625, 0.90625, 0.921875, 0.921875, 0.9375, 0.9375, 1, 1, 1, 1], degree=3))
            add(Edge.make_bspline(
                [(-501.042625967, -197.576867128), (-484.70639457, -192.735609928), (-467.788308948, -190.760045533)],
                knots=[0, 0, 0, 1, 1, 1], degree=2))
            add(Edge.make_bspline(
                [(-467.788308948, -190.760045533), (-462.786676869, -189.815443547), (-457.776990743, -188.909158453), (-447.739980306, -187.180501396), (-442.71289445, -186.357785178), (-427.622254664, -184.024069495), (-417.54302444, -182.650776587), (-397.341308596, -180.324047944), (-387.219395985, -179.365050328), (-372.000474202, -178.276499945), (-366.921451485, -177.972362208), (-356.750298544, -177.491314356), (-351.654106922, -177.314334211), (-346.563485915, -177.206095001)],
                knots=[0, 0, 0, 0, 0.125, 0.125, 0.25, 0.25, 0.5, 0.5, 0.75, 0.75, 0.875, 0.875, 1, 1, 1, 1], degree=3))
            add(Edge.make_bspline(
                [(-346.563485915, -177.206095001), (-329.06213864, -175.248845373), (-311.621831541, -177.616174998)],
                knots=[0, 0, 0, 1, 1, 1], degree=2))
            add(Edge.make_bspline(
                [(-311.621831541, -177.616174998), (-304.850539253, -177.938142667), (-298.091025125, -178.413813258), (-284.599556619, -179.724804329), (-277.867583166, -180.559875897), (-267.797000058, -182.169749214), (-264.444739267, -182.766406042), (-259.424595361, -183.76901685), (-257.752603343, -184.121350362), (-254.41170897, -184.866336955), (-252.743343717, -185.258479423), (-247.763643812, -186.499890794), (-244.473002096, -187.419099547), (-239.604690543, -189.01043981), (-237.993069173, -189.57591185), (-234.797111805, -190.792573508), (-233.212305749, -191.44228643), (-231.646212924, -192.150787371)],
                knots=[0, 0, 0, 0, 0.25, 0.25, 0.5, 0.5, 0.625, 0.625, 0.6875, 0.6875, 0.75, 0.75, 0.875, 0.875, 0.9375, 0.9375, 1, 1, 1, 1], degree=3))
        make_face()
    loft()


solid = part.part
